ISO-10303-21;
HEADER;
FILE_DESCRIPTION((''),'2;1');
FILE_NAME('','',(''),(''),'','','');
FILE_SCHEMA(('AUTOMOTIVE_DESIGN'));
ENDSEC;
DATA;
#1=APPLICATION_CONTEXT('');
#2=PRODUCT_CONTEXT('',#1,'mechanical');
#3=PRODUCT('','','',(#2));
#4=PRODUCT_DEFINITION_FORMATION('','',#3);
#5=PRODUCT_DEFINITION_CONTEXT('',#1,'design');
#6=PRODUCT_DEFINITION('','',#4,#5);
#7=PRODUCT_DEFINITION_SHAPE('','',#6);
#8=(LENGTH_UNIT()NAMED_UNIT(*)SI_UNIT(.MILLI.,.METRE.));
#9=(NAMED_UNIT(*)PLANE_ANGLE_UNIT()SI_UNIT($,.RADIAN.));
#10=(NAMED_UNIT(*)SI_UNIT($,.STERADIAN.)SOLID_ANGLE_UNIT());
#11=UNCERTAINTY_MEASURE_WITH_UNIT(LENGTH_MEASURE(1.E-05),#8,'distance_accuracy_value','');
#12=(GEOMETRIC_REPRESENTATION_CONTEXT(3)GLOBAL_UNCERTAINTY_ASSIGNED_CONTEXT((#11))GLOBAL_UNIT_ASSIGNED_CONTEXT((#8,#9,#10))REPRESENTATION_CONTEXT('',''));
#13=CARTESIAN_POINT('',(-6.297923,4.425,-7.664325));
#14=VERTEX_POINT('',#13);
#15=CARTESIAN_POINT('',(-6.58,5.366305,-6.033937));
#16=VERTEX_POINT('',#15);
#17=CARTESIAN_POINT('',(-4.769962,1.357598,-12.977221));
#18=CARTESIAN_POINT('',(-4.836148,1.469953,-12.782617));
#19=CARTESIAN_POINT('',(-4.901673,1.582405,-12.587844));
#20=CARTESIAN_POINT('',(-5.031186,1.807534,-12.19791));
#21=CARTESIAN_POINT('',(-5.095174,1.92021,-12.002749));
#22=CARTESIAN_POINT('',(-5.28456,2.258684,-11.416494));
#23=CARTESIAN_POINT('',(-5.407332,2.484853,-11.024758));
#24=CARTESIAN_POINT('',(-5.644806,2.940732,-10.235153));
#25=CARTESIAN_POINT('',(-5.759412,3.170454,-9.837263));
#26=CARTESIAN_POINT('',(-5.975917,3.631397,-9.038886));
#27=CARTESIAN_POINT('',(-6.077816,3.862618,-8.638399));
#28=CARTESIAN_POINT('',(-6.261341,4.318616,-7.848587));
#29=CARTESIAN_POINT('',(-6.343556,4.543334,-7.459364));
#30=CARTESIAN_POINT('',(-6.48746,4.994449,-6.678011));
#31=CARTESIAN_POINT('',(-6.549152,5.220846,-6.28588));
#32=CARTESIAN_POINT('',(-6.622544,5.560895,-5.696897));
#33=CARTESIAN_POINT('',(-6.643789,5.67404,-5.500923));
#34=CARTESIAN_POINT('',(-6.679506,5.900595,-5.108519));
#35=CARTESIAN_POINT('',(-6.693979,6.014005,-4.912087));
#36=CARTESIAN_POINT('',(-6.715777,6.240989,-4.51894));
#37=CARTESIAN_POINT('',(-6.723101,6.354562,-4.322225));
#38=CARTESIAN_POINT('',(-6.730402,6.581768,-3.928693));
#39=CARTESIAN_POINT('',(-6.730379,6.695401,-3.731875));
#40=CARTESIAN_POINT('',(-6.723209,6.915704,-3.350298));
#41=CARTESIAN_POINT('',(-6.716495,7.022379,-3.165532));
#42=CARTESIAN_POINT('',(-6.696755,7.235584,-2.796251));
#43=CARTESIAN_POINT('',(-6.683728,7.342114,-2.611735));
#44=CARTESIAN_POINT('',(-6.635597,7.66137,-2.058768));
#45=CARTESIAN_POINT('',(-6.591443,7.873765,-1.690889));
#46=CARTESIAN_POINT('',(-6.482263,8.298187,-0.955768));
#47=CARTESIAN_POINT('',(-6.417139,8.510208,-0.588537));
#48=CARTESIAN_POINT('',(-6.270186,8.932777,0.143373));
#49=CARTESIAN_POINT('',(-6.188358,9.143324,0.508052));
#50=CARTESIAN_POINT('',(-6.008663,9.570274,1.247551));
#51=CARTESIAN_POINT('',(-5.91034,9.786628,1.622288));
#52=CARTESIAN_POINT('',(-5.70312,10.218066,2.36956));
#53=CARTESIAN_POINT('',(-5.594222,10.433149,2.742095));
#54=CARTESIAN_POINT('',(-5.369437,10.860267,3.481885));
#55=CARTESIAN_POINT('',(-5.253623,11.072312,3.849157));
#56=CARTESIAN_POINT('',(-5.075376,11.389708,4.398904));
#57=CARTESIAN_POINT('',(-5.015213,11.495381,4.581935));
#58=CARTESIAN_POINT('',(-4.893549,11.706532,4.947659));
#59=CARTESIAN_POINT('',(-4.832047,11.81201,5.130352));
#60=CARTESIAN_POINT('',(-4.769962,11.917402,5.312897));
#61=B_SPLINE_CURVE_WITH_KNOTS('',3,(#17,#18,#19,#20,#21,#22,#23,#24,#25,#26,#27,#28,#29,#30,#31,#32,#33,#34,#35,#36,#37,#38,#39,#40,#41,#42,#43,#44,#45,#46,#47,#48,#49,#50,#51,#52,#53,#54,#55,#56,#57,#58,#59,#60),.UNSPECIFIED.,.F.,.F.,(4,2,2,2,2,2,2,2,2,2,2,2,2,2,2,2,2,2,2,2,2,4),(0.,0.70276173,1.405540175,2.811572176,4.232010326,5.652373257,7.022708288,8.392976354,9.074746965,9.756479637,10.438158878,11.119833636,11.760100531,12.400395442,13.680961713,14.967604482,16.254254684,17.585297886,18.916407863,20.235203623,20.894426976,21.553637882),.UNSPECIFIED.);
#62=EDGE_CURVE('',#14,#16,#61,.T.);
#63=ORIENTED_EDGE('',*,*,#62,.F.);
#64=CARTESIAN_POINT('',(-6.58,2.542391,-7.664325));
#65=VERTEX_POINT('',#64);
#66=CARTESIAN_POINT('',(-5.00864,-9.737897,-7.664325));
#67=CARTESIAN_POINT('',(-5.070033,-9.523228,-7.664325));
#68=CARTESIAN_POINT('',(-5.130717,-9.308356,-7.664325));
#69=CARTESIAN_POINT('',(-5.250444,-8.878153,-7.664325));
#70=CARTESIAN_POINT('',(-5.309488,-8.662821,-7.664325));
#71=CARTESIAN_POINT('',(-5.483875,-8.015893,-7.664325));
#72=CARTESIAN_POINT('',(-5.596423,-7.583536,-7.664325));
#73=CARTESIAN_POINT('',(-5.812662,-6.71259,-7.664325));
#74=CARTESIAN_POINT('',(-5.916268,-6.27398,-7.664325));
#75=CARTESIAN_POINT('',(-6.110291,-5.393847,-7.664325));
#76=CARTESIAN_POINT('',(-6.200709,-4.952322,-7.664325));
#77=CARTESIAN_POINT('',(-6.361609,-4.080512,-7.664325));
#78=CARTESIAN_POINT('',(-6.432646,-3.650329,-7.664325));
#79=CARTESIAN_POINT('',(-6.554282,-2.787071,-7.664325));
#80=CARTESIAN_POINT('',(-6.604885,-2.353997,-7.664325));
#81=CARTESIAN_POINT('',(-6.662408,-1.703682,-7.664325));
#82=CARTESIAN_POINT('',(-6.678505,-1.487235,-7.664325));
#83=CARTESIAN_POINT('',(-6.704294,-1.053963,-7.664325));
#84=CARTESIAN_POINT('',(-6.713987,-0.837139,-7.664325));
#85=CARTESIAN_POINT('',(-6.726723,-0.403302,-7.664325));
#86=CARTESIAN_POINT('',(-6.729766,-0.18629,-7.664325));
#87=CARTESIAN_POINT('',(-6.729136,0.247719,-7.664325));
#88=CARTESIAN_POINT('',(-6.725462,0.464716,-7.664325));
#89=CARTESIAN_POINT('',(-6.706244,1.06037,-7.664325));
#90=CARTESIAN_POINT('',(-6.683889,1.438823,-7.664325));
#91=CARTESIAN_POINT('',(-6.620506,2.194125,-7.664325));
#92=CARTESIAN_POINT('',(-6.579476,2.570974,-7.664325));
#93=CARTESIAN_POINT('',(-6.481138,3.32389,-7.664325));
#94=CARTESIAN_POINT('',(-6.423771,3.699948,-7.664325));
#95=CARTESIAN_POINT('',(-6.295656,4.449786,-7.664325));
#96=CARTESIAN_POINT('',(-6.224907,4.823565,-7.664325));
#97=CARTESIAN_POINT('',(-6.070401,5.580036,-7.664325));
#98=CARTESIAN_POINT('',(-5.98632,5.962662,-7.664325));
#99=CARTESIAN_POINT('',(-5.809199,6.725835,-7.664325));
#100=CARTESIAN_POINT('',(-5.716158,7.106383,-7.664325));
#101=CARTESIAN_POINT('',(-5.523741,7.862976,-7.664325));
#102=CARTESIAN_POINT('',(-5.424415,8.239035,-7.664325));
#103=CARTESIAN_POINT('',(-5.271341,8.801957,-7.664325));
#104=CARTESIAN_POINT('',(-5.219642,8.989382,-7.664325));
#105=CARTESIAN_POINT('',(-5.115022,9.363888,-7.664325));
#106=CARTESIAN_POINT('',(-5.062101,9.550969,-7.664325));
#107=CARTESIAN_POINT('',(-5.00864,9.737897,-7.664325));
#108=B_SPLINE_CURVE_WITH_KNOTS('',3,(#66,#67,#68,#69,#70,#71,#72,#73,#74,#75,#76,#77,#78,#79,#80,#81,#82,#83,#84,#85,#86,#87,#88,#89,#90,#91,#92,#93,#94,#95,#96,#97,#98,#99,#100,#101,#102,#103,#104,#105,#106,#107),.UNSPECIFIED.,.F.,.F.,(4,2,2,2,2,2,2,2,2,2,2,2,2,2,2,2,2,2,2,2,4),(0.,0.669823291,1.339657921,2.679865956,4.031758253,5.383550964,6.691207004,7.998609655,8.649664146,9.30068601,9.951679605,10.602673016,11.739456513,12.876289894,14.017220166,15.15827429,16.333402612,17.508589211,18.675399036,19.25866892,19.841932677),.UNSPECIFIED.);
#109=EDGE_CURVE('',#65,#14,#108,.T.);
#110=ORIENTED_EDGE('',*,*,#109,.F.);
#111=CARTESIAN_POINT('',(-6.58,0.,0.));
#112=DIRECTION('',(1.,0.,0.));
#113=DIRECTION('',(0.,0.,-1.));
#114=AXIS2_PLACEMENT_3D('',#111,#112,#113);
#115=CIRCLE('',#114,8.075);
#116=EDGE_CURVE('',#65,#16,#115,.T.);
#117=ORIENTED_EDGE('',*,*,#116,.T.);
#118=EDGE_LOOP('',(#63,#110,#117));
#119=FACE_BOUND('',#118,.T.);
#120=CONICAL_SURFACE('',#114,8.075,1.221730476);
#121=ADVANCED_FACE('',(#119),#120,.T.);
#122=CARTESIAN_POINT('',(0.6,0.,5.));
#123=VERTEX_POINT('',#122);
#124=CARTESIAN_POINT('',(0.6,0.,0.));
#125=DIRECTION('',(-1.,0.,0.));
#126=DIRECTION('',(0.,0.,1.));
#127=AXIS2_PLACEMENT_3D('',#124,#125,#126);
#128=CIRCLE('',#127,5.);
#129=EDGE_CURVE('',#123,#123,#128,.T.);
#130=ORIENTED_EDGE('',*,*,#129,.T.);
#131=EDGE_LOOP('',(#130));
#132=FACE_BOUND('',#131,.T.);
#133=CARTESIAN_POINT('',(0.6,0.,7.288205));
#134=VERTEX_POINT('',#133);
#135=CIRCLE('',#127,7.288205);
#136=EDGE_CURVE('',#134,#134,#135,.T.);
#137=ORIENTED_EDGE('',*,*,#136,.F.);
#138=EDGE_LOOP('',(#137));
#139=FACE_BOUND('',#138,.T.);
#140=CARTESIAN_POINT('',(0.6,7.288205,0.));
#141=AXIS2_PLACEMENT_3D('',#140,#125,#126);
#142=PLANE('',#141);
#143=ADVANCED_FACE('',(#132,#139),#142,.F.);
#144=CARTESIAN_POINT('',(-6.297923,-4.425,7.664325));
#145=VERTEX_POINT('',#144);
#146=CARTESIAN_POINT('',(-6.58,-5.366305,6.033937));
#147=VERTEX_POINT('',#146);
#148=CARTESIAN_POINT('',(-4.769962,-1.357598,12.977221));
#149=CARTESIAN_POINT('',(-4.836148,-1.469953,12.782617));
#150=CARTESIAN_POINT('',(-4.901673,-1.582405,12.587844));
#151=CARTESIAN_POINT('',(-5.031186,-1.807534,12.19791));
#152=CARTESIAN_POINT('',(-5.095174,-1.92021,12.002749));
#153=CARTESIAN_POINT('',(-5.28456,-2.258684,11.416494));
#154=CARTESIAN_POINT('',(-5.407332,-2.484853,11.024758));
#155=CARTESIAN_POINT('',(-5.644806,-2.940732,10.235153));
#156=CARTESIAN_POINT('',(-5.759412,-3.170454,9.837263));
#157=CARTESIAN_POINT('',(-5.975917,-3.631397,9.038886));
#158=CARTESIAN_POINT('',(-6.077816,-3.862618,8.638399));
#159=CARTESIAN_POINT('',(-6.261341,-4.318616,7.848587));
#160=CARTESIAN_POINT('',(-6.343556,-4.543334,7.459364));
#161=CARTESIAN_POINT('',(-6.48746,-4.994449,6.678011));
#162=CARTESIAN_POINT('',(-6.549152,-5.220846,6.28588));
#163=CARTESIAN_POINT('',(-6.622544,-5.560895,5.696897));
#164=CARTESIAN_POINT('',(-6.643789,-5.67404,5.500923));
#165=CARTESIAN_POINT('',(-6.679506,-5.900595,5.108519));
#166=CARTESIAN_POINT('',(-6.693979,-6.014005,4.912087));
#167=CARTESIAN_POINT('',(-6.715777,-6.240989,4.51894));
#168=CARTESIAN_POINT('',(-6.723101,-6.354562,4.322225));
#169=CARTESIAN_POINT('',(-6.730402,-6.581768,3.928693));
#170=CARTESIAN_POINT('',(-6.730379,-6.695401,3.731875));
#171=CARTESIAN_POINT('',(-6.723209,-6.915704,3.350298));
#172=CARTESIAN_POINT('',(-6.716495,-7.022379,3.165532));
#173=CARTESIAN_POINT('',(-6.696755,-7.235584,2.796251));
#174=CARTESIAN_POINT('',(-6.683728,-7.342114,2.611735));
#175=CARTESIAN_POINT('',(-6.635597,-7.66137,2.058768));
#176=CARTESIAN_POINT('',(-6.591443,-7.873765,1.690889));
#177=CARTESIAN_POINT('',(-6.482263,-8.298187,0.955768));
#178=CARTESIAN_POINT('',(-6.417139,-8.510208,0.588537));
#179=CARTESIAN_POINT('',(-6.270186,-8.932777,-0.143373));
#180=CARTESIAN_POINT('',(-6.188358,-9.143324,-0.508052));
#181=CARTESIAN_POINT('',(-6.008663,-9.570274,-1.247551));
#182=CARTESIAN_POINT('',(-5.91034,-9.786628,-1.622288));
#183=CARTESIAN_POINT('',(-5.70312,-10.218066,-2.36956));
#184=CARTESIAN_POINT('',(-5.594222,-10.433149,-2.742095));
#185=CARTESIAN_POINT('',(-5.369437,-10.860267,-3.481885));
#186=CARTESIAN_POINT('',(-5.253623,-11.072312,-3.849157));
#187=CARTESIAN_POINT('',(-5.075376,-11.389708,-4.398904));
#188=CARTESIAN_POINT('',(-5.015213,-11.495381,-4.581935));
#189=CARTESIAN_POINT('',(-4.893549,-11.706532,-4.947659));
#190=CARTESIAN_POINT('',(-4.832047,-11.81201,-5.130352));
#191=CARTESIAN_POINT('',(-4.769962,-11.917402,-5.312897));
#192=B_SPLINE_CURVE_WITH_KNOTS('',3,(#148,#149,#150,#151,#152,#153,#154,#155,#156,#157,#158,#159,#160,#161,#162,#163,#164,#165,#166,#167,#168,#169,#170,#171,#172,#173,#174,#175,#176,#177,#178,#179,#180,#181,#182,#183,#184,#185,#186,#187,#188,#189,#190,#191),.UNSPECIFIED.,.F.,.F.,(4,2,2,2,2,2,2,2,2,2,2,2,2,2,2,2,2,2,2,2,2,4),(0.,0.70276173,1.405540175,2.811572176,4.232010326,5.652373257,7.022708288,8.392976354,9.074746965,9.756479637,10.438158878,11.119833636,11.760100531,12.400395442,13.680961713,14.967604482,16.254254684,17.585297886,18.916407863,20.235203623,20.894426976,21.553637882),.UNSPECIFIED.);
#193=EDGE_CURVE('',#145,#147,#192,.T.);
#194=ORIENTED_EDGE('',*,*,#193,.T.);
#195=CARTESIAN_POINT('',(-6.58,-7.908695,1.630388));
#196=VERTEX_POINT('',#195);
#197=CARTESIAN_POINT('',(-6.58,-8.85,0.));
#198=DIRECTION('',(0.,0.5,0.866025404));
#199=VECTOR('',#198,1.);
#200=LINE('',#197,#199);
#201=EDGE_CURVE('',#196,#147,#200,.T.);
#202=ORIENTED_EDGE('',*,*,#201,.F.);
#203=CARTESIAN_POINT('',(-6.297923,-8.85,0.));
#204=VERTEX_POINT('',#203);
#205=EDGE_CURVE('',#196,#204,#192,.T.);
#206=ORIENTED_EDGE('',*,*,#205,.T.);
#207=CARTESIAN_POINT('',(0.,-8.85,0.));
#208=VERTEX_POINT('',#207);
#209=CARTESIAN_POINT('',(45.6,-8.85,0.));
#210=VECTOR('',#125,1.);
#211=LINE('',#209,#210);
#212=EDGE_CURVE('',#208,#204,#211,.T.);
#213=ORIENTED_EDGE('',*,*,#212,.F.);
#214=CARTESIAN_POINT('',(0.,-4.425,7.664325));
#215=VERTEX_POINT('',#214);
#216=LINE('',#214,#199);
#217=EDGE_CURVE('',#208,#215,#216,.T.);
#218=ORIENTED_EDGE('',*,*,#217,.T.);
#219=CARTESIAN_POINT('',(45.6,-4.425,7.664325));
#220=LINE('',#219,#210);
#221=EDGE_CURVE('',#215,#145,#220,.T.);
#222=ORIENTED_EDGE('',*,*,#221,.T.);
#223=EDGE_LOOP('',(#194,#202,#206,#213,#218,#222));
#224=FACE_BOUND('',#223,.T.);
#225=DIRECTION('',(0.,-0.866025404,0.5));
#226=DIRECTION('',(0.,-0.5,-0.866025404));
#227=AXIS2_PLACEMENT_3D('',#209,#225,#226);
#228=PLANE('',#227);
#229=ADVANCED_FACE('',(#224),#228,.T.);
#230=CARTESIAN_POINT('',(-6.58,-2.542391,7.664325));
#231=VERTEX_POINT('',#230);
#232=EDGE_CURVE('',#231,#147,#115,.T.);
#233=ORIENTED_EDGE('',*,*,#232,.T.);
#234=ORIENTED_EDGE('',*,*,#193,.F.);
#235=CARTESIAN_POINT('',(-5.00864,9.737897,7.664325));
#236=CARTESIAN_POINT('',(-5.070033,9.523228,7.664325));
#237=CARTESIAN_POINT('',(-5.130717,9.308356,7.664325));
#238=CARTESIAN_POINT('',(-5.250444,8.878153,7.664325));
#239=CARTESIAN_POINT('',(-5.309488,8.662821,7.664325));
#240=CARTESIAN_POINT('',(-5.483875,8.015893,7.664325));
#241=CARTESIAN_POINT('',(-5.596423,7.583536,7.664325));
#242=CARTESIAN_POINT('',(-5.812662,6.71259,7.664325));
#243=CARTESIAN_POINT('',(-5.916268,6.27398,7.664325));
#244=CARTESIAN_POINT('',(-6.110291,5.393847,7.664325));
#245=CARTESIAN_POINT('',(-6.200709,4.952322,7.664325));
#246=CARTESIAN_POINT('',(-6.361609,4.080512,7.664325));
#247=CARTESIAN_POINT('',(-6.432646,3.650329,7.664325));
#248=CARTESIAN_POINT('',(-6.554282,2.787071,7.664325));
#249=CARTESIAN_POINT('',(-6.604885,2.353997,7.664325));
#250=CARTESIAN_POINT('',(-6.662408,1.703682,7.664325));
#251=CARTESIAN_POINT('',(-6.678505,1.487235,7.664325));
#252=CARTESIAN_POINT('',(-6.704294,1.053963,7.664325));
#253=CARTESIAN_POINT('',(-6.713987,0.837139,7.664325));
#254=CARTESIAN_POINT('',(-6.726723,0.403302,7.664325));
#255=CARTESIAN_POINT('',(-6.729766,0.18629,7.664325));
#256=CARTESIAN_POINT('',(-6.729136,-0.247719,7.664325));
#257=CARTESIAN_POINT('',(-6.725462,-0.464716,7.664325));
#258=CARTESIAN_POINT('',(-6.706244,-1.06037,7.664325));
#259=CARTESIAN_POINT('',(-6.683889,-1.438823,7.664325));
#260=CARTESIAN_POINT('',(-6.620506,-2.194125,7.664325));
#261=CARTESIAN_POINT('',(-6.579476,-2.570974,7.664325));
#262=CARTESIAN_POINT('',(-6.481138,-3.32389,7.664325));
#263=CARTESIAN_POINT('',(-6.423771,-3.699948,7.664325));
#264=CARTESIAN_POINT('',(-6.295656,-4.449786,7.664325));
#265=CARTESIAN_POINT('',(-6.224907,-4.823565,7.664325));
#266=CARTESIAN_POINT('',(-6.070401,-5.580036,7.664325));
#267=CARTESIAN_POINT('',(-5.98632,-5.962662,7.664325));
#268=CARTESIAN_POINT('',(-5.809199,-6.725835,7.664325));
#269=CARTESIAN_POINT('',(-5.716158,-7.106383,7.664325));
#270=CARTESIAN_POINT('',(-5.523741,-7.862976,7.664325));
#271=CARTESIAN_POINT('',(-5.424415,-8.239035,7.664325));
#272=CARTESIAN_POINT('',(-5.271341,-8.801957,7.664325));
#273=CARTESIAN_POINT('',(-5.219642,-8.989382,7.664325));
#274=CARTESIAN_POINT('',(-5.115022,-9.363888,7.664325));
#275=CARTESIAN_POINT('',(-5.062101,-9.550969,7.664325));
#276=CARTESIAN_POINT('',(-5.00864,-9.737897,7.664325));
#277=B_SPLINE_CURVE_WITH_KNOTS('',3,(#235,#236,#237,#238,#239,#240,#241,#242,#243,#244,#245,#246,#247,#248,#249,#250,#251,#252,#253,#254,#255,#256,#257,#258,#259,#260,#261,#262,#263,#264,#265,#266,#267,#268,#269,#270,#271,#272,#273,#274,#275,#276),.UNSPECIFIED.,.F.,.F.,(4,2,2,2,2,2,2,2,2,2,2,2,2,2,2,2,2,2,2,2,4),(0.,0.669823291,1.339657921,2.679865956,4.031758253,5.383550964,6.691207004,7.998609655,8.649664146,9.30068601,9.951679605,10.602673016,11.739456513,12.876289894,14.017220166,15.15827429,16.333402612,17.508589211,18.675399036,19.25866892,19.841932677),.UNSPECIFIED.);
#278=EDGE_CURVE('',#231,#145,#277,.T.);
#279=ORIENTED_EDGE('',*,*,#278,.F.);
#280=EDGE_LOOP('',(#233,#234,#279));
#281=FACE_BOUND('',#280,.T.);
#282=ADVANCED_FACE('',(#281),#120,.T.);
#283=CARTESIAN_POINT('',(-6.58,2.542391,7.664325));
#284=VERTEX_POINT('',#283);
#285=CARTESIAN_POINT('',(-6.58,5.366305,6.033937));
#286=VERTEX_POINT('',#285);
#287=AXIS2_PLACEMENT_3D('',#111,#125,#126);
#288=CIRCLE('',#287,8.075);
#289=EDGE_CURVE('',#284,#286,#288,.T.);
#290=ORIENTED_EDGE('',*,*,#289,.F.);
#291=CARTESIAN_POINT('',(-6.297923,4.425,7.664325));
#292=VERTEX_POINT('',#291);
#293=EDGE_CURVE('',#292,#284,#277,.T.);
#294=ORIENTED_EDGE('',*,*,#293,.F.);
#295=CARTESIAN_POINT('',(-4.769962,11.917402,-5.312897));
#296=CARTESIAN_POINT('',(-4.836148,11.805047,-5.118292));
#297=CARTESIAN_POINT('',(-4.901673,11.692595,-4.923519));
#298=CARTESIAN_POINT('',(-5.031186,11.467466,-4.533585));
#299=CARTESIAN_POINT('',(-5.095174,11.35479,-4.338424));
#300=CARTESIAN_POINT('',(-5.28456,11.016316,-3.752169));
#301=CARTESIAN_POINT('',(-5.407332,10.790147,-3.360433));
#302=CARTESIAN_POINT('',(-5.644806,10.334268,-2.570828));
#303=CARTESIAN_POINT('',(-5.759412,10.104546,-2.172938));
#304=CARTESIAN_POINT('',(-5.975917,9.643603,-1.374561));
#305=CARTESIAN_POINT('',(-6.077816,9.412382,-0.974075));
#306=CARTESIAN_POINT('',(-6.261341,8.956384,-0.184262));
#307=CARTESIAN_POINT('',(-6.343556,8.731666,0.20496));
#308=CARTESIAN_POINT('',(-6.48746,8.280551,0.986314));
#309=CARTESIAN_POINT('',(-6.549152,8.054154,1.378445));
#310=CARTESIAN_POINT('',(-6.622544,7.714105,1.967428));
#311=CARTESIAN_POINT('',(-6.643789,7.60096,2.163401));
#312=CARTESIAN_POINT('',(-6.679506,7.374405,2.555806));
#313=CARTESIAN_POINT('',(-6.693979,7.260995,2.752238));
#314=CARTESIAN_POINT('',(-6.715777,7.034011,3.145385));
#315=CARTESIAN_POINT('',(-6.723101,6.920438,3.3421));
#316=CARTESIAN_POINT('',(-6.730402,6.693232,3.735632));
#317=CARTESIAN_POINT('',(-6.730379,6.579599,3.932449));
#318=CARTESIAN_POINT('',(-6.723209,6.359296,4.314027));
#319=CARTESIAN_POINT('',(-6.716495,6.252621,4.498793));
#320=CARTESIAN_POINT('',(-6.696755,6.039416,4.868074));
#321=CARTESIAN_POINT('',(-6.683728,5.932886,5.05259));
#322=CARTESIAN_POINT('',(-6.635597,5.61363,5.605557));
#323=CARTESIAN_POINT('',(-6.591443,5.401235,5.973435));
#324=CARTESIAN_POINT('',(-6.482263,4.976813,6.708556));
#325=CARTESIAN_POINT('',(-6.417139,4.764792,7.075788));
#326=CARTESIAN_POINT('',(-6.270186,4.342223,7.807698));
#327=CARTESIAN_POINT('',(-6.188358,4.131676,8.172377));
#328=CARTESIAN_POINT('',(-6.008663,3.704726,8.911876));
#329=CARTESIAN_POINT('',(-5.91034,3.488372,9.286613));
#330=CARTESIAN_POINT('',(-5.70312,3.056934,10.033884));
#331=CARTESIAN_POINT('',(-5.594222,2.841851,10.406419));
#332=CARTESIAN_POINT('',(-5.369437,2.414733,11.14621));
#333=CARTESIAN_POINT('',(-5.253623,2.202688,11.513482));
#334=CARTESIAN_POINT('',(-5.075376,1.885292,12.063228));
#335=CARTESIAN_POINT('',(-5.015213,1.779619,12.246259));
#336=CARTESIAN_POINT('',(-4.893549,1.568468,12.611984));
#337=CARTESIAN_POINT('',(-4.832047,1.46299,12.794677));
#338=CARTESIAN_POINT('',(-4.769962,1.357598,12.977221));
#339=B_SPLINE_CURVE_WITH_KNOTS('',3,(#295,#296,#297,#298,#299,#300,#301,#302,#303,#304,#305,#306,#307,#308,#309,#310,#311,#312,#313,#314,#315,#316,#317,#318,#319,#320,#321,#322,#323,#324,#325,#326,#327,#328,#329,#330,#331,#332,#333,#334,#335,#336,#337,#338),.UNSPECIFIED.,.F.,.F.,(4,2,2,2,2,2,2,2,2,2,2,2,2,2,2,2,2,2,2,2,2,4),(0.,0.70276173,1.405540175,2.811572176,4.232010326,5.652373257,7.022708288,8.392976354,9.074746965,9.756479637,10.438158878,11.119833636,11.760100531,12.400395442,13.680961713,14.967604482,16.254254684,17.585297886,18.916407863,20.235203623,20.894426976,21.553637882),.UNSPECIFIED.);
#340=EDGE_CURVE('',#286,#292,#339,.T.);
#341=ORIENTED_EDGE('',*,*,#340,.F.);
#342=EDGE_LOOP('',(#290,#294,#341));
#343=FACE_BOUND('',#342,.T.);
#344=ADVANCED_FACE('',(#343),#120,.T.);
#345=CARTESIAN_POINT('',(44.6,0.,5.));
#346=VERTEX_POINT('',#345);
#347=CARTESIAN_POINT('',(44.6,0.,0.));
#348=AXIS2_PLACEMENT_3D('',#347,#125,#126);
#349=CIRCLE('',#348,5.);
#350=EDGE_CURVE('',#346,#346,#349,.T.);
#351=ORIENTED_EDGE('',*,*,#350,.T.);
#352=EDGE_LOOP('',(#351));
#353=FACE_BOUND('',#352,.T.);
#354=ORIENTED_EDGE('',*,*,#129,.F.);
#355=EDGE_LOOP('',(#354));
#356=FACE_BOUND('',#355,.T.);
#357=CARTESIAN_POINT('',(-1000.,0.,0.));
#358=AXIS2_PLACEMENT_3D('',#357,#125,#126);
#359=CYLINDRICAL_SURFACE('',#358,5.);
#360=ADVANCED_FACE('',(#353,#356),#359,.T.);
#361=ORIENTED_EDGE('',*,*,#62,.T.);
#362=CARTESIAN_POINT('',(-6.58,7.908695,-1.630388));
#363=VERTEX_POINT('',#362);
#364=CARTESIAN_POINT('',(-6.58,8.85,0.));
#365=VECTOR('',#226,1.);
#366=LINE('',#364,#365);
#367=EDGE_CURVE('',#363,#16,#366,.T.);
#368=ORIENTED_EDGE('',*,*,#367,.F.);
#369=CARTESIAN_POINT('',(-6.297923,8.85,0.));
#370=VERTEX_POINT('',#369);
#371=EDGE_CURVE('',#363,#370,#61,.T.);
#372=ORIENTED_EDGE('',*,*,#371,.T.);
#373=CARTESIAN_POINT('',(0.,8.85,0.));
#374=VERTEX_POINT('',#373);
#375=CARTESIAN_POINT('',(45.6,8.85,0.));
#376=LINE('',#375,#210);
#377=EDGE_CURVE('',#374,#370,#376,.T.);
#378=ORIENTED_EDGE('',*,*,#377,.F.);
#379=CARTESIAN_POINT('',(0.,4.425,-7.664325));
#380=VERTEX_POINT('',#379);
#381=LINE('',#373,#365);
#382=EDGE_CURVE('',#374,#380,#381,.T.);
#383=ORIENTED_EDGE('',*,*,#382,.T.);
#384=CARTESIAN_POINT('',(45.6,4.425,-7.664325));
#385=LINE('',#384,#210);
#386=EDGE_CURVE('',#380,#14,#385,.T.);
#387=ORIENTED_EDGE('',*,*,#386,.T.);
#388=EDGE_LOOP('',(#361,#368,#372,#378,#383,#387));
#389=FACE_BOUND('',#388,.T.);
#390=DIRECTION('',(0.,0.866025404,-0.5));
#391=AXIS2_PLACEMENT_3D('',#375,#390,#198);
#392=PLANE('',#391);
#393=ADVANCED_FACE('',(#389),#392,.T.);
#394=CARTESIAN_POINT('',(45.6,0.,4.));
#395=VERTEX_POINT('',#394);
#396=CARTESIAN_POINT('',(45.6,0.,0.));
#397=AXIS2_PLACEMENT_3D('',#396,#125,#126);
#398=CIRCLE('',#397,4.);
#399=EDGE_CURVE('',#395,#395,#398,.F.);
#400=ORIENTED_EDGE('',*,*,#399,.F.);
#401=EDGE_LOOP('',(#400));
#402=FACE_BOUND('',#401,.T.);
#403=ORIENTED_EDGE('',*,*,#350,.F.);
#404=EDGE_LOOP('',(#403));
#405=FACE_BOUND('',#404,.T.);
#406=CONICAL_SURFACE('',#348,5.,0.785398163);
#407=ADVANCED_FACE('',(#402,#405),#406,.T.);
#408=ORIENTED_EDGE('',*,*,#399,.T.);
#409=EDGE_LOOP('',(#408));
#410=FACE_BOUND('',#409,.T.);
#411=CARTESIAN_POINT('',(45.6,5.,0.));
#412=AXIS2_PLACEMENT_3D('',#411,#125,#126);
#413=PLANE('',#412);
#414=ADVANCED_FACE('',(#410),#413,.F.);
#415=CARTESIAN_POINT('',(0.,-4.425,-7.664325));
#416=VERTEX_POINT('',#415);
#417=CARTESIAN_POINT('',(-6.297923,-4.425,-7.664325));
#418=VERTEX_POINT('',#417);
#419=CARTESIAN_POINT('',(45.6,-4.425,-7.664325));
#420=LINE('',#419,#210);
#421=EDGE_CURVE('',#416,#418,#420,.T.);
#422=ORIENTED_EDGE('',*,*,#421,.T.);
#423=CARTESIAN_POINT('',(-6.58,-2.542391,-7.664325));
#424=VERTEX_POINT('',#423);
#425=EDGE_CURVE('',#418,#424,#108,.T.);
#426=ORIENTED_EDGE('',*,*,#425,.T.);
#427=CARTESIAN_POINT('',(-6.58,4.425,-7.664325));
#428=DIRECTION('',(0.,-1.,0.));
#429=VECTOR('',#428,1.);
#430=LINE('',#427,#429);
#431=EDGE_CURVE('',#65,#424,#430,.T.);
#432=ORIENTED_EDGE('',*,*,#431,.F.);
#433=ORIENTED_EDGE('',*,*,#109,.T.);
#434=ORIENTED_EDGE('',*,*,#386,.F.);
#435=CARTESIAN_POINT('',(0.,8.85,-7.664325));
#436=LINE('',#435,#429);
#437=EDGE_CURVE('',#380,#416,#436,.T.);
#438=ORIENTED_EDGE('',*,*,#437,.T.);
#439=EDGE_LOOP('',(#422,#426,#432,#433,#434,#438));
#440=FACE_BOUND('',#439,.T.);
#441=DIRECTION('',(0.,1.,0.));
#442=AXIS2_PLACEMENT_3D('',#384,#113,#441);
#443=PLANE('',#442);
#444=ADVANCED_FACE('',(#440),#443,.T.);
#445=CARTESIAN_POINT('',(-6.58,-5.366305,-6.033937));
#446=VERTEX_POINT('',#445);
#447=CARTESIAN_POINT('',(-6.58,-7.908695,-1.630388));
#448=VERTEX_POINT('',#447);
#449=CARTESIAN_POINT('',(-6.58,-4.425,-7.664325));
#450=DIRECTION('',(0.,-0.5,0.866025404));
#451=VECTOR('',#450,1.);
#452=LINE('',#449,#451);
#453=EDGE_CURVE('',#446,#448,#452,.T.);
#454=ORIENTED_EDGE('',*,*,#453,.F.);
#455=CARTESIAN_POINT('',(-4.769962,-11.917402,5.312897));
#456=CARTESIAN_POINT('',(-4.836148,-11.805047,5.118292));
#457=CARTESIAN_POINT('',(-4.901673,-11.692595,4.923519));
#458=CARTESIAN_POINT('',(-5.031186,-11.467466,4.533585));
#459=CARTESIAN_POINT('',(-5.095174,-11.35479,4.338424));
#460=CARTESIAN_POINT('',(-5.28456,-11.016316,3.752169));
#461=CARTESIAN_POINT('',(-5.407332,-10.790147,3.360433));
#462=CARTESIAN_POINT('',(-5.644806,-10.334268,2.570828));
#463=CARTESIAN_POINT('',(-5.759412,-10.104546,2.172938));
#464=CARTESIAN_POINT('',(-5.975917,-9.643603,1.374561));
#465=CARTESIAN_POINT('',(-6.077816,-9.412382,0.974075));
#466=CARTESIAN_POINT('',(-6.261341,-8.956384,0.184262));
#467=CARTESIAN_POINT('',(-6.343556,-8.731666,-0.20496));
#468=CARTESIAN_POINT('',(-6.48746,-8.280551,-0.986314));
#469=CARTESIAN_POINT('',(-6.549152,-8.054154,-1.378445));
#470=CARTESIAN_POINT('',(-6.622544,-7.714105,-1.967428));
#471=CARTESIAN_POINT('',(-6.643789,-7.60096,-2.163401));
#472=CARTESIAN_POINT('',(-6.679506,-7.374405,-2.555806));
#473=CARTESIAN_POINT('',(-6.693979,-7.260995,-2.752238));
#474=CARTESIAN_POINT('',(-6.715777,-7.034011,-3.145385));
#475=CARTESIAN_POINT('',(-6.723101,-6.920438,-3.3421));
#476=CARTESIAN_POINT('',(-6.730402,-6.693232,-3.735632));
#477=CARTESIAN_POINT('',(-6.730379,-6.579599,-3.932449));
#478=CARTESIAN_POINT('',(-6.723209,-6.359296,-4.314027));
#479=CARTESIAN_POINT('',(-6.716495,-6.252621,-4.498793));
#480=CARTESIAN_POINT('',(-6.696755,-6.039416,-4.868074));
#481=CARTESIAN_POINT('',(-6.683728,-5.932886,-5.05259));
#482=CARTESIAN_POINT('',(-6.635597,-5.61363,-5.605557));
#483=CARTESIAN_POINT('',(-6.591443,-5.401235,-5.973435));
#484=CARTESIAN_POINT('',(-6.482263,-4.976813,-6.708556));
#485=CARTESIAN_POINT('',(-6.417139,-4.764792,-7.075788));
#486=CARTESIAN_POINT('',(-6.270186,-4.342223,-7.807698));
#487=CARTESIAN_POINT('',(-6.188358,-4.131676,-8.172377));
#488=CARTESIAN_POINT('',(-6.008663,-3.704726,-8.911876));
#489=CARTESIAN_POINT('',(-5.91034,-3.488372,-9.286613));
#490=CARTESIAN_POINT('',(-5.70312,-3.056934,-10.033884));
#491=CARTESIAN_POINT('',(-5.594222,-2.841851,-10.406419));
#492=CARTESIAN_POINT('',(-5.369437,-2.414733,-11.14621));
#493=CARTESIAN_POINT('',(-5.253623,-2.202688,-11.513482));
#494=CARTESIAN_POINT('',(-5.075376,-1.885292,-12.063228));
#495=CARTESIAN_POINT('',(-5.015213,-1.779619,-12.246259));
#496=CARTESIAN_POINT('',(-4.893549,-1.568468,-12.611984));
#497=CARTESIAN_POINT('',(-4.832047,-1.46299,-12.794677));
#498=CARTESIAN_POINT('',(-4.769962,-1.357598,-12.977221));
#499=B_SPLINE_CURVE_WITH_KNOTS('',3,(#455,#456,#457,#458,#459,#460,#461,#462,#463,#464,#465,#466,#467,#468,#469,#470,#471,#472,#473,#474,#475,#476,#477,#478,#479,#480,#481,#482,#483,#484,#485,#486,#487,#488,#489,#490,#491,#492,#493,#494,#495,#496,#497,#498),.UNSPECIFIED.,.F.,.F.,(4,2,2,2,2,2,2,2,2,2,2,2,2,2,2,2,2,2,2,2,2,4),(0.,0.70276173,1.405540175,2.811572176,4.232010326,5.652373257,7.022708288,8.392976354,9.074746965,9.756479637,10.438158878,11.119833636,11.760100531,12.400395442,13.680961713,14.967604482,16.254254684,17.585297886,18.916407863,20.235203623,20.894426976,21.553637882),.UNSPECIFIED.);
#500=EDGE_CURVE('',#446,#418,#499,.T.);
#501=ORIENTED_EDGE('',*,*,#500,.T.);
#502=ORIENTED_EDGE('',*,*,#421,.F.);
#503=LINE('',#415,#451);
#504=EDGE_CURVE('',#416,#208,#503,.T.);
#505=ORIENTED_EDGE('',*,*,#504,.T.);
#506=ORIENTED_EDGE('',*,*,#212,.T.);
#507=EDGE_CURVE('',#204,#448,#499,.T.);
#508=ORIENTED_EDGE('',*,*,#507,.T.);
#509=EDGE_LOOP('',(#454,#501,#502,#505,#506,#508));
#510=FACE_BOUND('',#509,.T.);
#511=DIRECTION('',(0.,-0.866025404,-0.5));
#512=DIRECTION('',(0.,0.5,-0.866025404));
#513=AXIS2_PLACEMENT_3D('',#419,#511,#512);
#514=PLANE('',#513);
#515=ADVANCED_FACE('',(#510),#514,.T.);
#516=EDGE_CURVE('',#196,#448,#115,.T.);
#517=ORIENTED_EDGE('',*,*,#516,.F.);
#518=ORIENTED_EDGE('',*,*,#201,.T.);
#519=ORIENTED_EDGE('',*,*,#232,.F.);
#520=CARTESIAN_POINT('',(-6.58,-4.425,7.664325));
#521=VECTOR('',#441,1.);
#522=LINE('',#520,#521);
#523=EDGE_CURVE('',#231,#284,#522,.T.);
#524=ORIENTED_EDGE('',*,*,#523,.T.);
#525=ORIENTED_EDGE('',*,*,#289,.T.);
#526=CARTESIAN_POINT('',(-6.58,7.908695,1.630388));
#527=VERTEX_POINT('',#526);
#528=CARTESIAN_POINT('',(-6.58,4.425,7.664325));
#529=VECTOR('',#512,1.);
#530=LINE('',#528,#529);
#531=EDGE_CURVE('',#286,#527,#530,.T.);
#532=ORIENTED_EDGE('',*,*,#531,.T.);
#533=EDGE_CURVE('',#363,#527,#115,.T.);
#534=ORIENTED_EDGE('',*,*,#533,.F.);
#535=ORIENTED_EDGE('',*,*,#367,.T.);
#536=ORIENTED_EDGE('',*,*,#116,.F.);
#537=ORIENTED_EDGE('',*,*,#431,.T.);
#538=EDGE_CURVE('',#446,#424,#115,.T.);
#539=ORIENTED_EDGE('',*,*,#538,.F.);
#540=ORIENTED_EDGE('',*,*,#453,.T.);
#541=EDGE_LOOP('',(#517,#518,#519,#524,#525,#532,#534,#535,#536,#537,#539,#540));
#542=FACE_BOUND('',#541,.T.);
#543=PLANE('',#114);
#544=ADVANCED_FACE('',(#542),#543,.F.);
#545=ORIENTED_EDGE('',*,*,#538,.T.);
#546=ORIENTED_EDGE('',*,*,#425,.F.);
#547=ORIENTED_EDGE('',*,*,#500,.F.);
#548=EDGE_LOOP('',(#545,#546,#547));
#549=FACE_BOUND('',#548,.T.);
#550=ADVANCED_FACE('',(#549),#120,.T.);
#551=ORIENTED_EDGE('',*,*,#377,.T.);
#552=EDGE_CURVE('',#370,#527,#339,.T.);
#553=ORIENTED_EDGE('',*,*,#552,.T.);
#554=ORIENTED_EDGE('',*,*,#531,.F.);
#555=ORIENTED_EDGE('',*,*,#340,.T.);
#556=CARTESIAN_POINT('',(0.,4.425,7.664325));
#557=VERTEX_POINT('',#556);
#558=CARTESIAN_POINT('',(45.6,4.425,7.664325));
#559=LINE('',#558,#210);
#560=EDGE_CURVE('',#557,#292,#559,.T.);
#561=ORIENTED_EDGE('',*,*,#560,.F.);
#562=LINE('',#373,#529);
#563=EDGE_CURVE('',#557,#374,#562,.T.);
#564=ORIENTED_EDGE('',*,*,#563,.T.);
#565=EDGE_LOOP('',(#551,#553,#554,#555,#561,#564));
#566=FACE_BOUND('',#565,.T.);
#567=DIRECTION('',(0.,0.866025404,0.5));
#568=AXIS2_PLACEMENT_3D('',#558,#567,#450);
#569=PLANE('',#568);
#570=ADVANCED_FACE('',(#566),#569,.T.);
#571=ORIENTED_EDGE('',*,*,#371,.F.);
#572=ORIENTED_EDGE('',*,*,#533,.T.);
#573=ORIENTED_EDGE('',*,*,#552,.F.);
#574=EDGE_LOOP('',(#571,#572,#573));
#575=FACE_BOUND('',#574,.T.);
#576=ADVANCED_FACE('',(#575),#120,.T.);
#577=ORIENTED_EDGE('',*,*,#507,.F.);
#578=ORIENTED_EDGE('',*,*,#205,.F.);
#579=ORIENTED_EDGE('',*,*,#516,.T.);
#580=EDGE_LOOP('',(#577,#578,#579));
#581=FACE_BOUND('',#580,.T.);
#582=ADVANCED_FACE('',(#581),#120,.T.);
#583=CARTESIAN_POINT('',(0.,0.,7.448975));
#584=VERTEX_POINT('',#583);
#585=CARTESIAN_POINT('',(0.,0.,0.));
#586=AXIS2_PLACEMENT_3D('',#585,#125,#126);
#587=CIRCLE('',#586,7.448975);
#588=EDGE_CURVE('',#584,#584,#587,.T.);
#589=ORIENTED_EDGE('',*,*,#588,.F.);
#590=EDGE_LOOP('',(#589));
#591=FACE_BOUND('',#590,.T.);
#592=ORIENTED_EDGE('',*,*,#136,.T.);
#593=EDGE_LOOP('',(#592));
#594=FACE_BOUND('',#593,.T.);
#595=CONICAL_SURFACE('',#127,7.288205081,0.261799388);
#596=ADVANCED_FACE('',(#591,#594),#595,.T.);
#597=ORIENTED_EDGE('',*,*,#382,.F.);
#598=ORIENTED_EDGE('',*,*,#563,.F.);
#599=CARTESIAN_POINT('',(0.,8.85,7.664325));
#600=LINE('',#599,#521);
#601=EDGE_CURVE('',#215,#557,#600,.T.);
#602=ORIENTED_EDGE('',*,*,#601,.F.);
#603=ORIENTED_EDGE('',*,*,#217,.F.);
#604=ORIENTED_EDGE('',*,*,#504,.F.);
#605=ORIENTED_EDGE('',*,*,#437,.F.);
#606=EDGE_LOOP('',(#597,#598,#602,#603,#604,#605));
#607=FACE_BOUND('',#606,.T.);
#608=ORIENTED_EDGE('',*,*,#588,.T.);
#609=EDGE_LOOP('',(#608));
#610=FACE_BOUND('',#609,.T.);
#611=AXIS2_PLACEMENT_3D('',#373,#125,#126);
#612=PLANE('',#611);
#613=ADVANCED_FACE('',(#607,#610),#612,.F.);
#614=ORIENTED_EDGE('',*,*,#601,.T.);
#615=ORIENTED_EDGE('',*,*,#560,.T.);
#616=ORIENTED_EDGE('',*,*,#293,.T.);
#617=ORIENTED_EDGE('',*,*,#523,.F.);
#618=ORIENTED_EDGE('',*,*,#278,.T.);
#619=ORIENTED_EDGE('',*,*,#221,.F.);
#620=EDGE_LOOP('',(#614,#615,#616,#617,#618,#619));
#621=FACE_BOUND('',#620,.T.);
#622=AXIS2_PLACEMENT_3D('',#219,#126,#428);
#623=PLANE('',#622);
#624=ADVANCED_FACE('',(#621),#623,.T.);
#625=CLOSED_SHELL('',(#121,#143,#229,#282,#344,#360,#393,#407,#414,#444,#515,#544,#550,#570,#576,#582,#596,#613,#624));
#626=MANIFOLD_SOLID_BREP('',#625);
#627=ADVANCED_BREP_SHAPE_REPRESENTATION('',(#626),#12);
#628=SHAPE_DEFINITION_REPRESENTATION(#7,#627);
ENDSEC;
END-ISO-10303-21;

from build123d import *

# Parameters (mm, degrees)
SKETCH_2_OUTSIDE_W  = 31.274
SKETCH_2_OUTSIDE_H  = 31.274
CUT_EXTRUDE_1_DEPTH = 54.660016772
CHAMFER_1_SIZE      = 1


with BuildPart() as part:
    # Эскиз1 → Повернуть1 (revolve)
    with BuildSketch(Plane.XY, mode=Mode.PRIVATE) as revolve_1_sk:
        Polygon((-6.58, 0), (-6.58, 8.85), (0, 8.85), (0, 7.448974596), (0.6, 7.288205081), (0.6, 5), (45.6, 5), (45.6, 0), align=None)
    revolve(revolve_1_sk.sketch.rotate(Axis((-1000, 0, 0), (1, 0, 0)), 90), axis=Axis((-1000, 0, 0), (1, 0, 0)))

    # Эскиз2 outside → Вырез-Вытянуть1 (cut, through all)
    with BuildSketch(Plane.ZY.offset(6.58)):
        Rectangle(SKETCH_2_OUTSIDE_W, SKETCH_2_OUTSIDE_H)
        Polygon((0, -8.85), (7.664324823, -4.425), (7.664324823, 4.425), (0, 8.85), (-7.664324823, 4.425), (-7.664324823, -4.425), align=None, mode=Mode.SUBTRACT)
    extrude(amount=-CUT_EXTRUDE_1_DEPTH, mode=Mode.SUBTRACT)

    # Эскиз4 → Вырез-Повернуть1 (revolve, cut)
    with BuildSketch(Plane.XY):
        Polygon((-6.58, 8.075), (-6.297923068, 8.85), (-6.58, 8.85), align=None)
    revolve(axis=Axis((-1000, 0, 0), (1, 0, 0)), mode=Mode.SUBTRACT)

    # Фаска1
    chamfer_1_edges = [part.edges().sort_by_distance(p)[0] for p in [
        (45.6, 0, -5),
    ]]
    chamfer(chamfer_1_edges, length=CHAMFER_1_SIZE)


solid = part.part
